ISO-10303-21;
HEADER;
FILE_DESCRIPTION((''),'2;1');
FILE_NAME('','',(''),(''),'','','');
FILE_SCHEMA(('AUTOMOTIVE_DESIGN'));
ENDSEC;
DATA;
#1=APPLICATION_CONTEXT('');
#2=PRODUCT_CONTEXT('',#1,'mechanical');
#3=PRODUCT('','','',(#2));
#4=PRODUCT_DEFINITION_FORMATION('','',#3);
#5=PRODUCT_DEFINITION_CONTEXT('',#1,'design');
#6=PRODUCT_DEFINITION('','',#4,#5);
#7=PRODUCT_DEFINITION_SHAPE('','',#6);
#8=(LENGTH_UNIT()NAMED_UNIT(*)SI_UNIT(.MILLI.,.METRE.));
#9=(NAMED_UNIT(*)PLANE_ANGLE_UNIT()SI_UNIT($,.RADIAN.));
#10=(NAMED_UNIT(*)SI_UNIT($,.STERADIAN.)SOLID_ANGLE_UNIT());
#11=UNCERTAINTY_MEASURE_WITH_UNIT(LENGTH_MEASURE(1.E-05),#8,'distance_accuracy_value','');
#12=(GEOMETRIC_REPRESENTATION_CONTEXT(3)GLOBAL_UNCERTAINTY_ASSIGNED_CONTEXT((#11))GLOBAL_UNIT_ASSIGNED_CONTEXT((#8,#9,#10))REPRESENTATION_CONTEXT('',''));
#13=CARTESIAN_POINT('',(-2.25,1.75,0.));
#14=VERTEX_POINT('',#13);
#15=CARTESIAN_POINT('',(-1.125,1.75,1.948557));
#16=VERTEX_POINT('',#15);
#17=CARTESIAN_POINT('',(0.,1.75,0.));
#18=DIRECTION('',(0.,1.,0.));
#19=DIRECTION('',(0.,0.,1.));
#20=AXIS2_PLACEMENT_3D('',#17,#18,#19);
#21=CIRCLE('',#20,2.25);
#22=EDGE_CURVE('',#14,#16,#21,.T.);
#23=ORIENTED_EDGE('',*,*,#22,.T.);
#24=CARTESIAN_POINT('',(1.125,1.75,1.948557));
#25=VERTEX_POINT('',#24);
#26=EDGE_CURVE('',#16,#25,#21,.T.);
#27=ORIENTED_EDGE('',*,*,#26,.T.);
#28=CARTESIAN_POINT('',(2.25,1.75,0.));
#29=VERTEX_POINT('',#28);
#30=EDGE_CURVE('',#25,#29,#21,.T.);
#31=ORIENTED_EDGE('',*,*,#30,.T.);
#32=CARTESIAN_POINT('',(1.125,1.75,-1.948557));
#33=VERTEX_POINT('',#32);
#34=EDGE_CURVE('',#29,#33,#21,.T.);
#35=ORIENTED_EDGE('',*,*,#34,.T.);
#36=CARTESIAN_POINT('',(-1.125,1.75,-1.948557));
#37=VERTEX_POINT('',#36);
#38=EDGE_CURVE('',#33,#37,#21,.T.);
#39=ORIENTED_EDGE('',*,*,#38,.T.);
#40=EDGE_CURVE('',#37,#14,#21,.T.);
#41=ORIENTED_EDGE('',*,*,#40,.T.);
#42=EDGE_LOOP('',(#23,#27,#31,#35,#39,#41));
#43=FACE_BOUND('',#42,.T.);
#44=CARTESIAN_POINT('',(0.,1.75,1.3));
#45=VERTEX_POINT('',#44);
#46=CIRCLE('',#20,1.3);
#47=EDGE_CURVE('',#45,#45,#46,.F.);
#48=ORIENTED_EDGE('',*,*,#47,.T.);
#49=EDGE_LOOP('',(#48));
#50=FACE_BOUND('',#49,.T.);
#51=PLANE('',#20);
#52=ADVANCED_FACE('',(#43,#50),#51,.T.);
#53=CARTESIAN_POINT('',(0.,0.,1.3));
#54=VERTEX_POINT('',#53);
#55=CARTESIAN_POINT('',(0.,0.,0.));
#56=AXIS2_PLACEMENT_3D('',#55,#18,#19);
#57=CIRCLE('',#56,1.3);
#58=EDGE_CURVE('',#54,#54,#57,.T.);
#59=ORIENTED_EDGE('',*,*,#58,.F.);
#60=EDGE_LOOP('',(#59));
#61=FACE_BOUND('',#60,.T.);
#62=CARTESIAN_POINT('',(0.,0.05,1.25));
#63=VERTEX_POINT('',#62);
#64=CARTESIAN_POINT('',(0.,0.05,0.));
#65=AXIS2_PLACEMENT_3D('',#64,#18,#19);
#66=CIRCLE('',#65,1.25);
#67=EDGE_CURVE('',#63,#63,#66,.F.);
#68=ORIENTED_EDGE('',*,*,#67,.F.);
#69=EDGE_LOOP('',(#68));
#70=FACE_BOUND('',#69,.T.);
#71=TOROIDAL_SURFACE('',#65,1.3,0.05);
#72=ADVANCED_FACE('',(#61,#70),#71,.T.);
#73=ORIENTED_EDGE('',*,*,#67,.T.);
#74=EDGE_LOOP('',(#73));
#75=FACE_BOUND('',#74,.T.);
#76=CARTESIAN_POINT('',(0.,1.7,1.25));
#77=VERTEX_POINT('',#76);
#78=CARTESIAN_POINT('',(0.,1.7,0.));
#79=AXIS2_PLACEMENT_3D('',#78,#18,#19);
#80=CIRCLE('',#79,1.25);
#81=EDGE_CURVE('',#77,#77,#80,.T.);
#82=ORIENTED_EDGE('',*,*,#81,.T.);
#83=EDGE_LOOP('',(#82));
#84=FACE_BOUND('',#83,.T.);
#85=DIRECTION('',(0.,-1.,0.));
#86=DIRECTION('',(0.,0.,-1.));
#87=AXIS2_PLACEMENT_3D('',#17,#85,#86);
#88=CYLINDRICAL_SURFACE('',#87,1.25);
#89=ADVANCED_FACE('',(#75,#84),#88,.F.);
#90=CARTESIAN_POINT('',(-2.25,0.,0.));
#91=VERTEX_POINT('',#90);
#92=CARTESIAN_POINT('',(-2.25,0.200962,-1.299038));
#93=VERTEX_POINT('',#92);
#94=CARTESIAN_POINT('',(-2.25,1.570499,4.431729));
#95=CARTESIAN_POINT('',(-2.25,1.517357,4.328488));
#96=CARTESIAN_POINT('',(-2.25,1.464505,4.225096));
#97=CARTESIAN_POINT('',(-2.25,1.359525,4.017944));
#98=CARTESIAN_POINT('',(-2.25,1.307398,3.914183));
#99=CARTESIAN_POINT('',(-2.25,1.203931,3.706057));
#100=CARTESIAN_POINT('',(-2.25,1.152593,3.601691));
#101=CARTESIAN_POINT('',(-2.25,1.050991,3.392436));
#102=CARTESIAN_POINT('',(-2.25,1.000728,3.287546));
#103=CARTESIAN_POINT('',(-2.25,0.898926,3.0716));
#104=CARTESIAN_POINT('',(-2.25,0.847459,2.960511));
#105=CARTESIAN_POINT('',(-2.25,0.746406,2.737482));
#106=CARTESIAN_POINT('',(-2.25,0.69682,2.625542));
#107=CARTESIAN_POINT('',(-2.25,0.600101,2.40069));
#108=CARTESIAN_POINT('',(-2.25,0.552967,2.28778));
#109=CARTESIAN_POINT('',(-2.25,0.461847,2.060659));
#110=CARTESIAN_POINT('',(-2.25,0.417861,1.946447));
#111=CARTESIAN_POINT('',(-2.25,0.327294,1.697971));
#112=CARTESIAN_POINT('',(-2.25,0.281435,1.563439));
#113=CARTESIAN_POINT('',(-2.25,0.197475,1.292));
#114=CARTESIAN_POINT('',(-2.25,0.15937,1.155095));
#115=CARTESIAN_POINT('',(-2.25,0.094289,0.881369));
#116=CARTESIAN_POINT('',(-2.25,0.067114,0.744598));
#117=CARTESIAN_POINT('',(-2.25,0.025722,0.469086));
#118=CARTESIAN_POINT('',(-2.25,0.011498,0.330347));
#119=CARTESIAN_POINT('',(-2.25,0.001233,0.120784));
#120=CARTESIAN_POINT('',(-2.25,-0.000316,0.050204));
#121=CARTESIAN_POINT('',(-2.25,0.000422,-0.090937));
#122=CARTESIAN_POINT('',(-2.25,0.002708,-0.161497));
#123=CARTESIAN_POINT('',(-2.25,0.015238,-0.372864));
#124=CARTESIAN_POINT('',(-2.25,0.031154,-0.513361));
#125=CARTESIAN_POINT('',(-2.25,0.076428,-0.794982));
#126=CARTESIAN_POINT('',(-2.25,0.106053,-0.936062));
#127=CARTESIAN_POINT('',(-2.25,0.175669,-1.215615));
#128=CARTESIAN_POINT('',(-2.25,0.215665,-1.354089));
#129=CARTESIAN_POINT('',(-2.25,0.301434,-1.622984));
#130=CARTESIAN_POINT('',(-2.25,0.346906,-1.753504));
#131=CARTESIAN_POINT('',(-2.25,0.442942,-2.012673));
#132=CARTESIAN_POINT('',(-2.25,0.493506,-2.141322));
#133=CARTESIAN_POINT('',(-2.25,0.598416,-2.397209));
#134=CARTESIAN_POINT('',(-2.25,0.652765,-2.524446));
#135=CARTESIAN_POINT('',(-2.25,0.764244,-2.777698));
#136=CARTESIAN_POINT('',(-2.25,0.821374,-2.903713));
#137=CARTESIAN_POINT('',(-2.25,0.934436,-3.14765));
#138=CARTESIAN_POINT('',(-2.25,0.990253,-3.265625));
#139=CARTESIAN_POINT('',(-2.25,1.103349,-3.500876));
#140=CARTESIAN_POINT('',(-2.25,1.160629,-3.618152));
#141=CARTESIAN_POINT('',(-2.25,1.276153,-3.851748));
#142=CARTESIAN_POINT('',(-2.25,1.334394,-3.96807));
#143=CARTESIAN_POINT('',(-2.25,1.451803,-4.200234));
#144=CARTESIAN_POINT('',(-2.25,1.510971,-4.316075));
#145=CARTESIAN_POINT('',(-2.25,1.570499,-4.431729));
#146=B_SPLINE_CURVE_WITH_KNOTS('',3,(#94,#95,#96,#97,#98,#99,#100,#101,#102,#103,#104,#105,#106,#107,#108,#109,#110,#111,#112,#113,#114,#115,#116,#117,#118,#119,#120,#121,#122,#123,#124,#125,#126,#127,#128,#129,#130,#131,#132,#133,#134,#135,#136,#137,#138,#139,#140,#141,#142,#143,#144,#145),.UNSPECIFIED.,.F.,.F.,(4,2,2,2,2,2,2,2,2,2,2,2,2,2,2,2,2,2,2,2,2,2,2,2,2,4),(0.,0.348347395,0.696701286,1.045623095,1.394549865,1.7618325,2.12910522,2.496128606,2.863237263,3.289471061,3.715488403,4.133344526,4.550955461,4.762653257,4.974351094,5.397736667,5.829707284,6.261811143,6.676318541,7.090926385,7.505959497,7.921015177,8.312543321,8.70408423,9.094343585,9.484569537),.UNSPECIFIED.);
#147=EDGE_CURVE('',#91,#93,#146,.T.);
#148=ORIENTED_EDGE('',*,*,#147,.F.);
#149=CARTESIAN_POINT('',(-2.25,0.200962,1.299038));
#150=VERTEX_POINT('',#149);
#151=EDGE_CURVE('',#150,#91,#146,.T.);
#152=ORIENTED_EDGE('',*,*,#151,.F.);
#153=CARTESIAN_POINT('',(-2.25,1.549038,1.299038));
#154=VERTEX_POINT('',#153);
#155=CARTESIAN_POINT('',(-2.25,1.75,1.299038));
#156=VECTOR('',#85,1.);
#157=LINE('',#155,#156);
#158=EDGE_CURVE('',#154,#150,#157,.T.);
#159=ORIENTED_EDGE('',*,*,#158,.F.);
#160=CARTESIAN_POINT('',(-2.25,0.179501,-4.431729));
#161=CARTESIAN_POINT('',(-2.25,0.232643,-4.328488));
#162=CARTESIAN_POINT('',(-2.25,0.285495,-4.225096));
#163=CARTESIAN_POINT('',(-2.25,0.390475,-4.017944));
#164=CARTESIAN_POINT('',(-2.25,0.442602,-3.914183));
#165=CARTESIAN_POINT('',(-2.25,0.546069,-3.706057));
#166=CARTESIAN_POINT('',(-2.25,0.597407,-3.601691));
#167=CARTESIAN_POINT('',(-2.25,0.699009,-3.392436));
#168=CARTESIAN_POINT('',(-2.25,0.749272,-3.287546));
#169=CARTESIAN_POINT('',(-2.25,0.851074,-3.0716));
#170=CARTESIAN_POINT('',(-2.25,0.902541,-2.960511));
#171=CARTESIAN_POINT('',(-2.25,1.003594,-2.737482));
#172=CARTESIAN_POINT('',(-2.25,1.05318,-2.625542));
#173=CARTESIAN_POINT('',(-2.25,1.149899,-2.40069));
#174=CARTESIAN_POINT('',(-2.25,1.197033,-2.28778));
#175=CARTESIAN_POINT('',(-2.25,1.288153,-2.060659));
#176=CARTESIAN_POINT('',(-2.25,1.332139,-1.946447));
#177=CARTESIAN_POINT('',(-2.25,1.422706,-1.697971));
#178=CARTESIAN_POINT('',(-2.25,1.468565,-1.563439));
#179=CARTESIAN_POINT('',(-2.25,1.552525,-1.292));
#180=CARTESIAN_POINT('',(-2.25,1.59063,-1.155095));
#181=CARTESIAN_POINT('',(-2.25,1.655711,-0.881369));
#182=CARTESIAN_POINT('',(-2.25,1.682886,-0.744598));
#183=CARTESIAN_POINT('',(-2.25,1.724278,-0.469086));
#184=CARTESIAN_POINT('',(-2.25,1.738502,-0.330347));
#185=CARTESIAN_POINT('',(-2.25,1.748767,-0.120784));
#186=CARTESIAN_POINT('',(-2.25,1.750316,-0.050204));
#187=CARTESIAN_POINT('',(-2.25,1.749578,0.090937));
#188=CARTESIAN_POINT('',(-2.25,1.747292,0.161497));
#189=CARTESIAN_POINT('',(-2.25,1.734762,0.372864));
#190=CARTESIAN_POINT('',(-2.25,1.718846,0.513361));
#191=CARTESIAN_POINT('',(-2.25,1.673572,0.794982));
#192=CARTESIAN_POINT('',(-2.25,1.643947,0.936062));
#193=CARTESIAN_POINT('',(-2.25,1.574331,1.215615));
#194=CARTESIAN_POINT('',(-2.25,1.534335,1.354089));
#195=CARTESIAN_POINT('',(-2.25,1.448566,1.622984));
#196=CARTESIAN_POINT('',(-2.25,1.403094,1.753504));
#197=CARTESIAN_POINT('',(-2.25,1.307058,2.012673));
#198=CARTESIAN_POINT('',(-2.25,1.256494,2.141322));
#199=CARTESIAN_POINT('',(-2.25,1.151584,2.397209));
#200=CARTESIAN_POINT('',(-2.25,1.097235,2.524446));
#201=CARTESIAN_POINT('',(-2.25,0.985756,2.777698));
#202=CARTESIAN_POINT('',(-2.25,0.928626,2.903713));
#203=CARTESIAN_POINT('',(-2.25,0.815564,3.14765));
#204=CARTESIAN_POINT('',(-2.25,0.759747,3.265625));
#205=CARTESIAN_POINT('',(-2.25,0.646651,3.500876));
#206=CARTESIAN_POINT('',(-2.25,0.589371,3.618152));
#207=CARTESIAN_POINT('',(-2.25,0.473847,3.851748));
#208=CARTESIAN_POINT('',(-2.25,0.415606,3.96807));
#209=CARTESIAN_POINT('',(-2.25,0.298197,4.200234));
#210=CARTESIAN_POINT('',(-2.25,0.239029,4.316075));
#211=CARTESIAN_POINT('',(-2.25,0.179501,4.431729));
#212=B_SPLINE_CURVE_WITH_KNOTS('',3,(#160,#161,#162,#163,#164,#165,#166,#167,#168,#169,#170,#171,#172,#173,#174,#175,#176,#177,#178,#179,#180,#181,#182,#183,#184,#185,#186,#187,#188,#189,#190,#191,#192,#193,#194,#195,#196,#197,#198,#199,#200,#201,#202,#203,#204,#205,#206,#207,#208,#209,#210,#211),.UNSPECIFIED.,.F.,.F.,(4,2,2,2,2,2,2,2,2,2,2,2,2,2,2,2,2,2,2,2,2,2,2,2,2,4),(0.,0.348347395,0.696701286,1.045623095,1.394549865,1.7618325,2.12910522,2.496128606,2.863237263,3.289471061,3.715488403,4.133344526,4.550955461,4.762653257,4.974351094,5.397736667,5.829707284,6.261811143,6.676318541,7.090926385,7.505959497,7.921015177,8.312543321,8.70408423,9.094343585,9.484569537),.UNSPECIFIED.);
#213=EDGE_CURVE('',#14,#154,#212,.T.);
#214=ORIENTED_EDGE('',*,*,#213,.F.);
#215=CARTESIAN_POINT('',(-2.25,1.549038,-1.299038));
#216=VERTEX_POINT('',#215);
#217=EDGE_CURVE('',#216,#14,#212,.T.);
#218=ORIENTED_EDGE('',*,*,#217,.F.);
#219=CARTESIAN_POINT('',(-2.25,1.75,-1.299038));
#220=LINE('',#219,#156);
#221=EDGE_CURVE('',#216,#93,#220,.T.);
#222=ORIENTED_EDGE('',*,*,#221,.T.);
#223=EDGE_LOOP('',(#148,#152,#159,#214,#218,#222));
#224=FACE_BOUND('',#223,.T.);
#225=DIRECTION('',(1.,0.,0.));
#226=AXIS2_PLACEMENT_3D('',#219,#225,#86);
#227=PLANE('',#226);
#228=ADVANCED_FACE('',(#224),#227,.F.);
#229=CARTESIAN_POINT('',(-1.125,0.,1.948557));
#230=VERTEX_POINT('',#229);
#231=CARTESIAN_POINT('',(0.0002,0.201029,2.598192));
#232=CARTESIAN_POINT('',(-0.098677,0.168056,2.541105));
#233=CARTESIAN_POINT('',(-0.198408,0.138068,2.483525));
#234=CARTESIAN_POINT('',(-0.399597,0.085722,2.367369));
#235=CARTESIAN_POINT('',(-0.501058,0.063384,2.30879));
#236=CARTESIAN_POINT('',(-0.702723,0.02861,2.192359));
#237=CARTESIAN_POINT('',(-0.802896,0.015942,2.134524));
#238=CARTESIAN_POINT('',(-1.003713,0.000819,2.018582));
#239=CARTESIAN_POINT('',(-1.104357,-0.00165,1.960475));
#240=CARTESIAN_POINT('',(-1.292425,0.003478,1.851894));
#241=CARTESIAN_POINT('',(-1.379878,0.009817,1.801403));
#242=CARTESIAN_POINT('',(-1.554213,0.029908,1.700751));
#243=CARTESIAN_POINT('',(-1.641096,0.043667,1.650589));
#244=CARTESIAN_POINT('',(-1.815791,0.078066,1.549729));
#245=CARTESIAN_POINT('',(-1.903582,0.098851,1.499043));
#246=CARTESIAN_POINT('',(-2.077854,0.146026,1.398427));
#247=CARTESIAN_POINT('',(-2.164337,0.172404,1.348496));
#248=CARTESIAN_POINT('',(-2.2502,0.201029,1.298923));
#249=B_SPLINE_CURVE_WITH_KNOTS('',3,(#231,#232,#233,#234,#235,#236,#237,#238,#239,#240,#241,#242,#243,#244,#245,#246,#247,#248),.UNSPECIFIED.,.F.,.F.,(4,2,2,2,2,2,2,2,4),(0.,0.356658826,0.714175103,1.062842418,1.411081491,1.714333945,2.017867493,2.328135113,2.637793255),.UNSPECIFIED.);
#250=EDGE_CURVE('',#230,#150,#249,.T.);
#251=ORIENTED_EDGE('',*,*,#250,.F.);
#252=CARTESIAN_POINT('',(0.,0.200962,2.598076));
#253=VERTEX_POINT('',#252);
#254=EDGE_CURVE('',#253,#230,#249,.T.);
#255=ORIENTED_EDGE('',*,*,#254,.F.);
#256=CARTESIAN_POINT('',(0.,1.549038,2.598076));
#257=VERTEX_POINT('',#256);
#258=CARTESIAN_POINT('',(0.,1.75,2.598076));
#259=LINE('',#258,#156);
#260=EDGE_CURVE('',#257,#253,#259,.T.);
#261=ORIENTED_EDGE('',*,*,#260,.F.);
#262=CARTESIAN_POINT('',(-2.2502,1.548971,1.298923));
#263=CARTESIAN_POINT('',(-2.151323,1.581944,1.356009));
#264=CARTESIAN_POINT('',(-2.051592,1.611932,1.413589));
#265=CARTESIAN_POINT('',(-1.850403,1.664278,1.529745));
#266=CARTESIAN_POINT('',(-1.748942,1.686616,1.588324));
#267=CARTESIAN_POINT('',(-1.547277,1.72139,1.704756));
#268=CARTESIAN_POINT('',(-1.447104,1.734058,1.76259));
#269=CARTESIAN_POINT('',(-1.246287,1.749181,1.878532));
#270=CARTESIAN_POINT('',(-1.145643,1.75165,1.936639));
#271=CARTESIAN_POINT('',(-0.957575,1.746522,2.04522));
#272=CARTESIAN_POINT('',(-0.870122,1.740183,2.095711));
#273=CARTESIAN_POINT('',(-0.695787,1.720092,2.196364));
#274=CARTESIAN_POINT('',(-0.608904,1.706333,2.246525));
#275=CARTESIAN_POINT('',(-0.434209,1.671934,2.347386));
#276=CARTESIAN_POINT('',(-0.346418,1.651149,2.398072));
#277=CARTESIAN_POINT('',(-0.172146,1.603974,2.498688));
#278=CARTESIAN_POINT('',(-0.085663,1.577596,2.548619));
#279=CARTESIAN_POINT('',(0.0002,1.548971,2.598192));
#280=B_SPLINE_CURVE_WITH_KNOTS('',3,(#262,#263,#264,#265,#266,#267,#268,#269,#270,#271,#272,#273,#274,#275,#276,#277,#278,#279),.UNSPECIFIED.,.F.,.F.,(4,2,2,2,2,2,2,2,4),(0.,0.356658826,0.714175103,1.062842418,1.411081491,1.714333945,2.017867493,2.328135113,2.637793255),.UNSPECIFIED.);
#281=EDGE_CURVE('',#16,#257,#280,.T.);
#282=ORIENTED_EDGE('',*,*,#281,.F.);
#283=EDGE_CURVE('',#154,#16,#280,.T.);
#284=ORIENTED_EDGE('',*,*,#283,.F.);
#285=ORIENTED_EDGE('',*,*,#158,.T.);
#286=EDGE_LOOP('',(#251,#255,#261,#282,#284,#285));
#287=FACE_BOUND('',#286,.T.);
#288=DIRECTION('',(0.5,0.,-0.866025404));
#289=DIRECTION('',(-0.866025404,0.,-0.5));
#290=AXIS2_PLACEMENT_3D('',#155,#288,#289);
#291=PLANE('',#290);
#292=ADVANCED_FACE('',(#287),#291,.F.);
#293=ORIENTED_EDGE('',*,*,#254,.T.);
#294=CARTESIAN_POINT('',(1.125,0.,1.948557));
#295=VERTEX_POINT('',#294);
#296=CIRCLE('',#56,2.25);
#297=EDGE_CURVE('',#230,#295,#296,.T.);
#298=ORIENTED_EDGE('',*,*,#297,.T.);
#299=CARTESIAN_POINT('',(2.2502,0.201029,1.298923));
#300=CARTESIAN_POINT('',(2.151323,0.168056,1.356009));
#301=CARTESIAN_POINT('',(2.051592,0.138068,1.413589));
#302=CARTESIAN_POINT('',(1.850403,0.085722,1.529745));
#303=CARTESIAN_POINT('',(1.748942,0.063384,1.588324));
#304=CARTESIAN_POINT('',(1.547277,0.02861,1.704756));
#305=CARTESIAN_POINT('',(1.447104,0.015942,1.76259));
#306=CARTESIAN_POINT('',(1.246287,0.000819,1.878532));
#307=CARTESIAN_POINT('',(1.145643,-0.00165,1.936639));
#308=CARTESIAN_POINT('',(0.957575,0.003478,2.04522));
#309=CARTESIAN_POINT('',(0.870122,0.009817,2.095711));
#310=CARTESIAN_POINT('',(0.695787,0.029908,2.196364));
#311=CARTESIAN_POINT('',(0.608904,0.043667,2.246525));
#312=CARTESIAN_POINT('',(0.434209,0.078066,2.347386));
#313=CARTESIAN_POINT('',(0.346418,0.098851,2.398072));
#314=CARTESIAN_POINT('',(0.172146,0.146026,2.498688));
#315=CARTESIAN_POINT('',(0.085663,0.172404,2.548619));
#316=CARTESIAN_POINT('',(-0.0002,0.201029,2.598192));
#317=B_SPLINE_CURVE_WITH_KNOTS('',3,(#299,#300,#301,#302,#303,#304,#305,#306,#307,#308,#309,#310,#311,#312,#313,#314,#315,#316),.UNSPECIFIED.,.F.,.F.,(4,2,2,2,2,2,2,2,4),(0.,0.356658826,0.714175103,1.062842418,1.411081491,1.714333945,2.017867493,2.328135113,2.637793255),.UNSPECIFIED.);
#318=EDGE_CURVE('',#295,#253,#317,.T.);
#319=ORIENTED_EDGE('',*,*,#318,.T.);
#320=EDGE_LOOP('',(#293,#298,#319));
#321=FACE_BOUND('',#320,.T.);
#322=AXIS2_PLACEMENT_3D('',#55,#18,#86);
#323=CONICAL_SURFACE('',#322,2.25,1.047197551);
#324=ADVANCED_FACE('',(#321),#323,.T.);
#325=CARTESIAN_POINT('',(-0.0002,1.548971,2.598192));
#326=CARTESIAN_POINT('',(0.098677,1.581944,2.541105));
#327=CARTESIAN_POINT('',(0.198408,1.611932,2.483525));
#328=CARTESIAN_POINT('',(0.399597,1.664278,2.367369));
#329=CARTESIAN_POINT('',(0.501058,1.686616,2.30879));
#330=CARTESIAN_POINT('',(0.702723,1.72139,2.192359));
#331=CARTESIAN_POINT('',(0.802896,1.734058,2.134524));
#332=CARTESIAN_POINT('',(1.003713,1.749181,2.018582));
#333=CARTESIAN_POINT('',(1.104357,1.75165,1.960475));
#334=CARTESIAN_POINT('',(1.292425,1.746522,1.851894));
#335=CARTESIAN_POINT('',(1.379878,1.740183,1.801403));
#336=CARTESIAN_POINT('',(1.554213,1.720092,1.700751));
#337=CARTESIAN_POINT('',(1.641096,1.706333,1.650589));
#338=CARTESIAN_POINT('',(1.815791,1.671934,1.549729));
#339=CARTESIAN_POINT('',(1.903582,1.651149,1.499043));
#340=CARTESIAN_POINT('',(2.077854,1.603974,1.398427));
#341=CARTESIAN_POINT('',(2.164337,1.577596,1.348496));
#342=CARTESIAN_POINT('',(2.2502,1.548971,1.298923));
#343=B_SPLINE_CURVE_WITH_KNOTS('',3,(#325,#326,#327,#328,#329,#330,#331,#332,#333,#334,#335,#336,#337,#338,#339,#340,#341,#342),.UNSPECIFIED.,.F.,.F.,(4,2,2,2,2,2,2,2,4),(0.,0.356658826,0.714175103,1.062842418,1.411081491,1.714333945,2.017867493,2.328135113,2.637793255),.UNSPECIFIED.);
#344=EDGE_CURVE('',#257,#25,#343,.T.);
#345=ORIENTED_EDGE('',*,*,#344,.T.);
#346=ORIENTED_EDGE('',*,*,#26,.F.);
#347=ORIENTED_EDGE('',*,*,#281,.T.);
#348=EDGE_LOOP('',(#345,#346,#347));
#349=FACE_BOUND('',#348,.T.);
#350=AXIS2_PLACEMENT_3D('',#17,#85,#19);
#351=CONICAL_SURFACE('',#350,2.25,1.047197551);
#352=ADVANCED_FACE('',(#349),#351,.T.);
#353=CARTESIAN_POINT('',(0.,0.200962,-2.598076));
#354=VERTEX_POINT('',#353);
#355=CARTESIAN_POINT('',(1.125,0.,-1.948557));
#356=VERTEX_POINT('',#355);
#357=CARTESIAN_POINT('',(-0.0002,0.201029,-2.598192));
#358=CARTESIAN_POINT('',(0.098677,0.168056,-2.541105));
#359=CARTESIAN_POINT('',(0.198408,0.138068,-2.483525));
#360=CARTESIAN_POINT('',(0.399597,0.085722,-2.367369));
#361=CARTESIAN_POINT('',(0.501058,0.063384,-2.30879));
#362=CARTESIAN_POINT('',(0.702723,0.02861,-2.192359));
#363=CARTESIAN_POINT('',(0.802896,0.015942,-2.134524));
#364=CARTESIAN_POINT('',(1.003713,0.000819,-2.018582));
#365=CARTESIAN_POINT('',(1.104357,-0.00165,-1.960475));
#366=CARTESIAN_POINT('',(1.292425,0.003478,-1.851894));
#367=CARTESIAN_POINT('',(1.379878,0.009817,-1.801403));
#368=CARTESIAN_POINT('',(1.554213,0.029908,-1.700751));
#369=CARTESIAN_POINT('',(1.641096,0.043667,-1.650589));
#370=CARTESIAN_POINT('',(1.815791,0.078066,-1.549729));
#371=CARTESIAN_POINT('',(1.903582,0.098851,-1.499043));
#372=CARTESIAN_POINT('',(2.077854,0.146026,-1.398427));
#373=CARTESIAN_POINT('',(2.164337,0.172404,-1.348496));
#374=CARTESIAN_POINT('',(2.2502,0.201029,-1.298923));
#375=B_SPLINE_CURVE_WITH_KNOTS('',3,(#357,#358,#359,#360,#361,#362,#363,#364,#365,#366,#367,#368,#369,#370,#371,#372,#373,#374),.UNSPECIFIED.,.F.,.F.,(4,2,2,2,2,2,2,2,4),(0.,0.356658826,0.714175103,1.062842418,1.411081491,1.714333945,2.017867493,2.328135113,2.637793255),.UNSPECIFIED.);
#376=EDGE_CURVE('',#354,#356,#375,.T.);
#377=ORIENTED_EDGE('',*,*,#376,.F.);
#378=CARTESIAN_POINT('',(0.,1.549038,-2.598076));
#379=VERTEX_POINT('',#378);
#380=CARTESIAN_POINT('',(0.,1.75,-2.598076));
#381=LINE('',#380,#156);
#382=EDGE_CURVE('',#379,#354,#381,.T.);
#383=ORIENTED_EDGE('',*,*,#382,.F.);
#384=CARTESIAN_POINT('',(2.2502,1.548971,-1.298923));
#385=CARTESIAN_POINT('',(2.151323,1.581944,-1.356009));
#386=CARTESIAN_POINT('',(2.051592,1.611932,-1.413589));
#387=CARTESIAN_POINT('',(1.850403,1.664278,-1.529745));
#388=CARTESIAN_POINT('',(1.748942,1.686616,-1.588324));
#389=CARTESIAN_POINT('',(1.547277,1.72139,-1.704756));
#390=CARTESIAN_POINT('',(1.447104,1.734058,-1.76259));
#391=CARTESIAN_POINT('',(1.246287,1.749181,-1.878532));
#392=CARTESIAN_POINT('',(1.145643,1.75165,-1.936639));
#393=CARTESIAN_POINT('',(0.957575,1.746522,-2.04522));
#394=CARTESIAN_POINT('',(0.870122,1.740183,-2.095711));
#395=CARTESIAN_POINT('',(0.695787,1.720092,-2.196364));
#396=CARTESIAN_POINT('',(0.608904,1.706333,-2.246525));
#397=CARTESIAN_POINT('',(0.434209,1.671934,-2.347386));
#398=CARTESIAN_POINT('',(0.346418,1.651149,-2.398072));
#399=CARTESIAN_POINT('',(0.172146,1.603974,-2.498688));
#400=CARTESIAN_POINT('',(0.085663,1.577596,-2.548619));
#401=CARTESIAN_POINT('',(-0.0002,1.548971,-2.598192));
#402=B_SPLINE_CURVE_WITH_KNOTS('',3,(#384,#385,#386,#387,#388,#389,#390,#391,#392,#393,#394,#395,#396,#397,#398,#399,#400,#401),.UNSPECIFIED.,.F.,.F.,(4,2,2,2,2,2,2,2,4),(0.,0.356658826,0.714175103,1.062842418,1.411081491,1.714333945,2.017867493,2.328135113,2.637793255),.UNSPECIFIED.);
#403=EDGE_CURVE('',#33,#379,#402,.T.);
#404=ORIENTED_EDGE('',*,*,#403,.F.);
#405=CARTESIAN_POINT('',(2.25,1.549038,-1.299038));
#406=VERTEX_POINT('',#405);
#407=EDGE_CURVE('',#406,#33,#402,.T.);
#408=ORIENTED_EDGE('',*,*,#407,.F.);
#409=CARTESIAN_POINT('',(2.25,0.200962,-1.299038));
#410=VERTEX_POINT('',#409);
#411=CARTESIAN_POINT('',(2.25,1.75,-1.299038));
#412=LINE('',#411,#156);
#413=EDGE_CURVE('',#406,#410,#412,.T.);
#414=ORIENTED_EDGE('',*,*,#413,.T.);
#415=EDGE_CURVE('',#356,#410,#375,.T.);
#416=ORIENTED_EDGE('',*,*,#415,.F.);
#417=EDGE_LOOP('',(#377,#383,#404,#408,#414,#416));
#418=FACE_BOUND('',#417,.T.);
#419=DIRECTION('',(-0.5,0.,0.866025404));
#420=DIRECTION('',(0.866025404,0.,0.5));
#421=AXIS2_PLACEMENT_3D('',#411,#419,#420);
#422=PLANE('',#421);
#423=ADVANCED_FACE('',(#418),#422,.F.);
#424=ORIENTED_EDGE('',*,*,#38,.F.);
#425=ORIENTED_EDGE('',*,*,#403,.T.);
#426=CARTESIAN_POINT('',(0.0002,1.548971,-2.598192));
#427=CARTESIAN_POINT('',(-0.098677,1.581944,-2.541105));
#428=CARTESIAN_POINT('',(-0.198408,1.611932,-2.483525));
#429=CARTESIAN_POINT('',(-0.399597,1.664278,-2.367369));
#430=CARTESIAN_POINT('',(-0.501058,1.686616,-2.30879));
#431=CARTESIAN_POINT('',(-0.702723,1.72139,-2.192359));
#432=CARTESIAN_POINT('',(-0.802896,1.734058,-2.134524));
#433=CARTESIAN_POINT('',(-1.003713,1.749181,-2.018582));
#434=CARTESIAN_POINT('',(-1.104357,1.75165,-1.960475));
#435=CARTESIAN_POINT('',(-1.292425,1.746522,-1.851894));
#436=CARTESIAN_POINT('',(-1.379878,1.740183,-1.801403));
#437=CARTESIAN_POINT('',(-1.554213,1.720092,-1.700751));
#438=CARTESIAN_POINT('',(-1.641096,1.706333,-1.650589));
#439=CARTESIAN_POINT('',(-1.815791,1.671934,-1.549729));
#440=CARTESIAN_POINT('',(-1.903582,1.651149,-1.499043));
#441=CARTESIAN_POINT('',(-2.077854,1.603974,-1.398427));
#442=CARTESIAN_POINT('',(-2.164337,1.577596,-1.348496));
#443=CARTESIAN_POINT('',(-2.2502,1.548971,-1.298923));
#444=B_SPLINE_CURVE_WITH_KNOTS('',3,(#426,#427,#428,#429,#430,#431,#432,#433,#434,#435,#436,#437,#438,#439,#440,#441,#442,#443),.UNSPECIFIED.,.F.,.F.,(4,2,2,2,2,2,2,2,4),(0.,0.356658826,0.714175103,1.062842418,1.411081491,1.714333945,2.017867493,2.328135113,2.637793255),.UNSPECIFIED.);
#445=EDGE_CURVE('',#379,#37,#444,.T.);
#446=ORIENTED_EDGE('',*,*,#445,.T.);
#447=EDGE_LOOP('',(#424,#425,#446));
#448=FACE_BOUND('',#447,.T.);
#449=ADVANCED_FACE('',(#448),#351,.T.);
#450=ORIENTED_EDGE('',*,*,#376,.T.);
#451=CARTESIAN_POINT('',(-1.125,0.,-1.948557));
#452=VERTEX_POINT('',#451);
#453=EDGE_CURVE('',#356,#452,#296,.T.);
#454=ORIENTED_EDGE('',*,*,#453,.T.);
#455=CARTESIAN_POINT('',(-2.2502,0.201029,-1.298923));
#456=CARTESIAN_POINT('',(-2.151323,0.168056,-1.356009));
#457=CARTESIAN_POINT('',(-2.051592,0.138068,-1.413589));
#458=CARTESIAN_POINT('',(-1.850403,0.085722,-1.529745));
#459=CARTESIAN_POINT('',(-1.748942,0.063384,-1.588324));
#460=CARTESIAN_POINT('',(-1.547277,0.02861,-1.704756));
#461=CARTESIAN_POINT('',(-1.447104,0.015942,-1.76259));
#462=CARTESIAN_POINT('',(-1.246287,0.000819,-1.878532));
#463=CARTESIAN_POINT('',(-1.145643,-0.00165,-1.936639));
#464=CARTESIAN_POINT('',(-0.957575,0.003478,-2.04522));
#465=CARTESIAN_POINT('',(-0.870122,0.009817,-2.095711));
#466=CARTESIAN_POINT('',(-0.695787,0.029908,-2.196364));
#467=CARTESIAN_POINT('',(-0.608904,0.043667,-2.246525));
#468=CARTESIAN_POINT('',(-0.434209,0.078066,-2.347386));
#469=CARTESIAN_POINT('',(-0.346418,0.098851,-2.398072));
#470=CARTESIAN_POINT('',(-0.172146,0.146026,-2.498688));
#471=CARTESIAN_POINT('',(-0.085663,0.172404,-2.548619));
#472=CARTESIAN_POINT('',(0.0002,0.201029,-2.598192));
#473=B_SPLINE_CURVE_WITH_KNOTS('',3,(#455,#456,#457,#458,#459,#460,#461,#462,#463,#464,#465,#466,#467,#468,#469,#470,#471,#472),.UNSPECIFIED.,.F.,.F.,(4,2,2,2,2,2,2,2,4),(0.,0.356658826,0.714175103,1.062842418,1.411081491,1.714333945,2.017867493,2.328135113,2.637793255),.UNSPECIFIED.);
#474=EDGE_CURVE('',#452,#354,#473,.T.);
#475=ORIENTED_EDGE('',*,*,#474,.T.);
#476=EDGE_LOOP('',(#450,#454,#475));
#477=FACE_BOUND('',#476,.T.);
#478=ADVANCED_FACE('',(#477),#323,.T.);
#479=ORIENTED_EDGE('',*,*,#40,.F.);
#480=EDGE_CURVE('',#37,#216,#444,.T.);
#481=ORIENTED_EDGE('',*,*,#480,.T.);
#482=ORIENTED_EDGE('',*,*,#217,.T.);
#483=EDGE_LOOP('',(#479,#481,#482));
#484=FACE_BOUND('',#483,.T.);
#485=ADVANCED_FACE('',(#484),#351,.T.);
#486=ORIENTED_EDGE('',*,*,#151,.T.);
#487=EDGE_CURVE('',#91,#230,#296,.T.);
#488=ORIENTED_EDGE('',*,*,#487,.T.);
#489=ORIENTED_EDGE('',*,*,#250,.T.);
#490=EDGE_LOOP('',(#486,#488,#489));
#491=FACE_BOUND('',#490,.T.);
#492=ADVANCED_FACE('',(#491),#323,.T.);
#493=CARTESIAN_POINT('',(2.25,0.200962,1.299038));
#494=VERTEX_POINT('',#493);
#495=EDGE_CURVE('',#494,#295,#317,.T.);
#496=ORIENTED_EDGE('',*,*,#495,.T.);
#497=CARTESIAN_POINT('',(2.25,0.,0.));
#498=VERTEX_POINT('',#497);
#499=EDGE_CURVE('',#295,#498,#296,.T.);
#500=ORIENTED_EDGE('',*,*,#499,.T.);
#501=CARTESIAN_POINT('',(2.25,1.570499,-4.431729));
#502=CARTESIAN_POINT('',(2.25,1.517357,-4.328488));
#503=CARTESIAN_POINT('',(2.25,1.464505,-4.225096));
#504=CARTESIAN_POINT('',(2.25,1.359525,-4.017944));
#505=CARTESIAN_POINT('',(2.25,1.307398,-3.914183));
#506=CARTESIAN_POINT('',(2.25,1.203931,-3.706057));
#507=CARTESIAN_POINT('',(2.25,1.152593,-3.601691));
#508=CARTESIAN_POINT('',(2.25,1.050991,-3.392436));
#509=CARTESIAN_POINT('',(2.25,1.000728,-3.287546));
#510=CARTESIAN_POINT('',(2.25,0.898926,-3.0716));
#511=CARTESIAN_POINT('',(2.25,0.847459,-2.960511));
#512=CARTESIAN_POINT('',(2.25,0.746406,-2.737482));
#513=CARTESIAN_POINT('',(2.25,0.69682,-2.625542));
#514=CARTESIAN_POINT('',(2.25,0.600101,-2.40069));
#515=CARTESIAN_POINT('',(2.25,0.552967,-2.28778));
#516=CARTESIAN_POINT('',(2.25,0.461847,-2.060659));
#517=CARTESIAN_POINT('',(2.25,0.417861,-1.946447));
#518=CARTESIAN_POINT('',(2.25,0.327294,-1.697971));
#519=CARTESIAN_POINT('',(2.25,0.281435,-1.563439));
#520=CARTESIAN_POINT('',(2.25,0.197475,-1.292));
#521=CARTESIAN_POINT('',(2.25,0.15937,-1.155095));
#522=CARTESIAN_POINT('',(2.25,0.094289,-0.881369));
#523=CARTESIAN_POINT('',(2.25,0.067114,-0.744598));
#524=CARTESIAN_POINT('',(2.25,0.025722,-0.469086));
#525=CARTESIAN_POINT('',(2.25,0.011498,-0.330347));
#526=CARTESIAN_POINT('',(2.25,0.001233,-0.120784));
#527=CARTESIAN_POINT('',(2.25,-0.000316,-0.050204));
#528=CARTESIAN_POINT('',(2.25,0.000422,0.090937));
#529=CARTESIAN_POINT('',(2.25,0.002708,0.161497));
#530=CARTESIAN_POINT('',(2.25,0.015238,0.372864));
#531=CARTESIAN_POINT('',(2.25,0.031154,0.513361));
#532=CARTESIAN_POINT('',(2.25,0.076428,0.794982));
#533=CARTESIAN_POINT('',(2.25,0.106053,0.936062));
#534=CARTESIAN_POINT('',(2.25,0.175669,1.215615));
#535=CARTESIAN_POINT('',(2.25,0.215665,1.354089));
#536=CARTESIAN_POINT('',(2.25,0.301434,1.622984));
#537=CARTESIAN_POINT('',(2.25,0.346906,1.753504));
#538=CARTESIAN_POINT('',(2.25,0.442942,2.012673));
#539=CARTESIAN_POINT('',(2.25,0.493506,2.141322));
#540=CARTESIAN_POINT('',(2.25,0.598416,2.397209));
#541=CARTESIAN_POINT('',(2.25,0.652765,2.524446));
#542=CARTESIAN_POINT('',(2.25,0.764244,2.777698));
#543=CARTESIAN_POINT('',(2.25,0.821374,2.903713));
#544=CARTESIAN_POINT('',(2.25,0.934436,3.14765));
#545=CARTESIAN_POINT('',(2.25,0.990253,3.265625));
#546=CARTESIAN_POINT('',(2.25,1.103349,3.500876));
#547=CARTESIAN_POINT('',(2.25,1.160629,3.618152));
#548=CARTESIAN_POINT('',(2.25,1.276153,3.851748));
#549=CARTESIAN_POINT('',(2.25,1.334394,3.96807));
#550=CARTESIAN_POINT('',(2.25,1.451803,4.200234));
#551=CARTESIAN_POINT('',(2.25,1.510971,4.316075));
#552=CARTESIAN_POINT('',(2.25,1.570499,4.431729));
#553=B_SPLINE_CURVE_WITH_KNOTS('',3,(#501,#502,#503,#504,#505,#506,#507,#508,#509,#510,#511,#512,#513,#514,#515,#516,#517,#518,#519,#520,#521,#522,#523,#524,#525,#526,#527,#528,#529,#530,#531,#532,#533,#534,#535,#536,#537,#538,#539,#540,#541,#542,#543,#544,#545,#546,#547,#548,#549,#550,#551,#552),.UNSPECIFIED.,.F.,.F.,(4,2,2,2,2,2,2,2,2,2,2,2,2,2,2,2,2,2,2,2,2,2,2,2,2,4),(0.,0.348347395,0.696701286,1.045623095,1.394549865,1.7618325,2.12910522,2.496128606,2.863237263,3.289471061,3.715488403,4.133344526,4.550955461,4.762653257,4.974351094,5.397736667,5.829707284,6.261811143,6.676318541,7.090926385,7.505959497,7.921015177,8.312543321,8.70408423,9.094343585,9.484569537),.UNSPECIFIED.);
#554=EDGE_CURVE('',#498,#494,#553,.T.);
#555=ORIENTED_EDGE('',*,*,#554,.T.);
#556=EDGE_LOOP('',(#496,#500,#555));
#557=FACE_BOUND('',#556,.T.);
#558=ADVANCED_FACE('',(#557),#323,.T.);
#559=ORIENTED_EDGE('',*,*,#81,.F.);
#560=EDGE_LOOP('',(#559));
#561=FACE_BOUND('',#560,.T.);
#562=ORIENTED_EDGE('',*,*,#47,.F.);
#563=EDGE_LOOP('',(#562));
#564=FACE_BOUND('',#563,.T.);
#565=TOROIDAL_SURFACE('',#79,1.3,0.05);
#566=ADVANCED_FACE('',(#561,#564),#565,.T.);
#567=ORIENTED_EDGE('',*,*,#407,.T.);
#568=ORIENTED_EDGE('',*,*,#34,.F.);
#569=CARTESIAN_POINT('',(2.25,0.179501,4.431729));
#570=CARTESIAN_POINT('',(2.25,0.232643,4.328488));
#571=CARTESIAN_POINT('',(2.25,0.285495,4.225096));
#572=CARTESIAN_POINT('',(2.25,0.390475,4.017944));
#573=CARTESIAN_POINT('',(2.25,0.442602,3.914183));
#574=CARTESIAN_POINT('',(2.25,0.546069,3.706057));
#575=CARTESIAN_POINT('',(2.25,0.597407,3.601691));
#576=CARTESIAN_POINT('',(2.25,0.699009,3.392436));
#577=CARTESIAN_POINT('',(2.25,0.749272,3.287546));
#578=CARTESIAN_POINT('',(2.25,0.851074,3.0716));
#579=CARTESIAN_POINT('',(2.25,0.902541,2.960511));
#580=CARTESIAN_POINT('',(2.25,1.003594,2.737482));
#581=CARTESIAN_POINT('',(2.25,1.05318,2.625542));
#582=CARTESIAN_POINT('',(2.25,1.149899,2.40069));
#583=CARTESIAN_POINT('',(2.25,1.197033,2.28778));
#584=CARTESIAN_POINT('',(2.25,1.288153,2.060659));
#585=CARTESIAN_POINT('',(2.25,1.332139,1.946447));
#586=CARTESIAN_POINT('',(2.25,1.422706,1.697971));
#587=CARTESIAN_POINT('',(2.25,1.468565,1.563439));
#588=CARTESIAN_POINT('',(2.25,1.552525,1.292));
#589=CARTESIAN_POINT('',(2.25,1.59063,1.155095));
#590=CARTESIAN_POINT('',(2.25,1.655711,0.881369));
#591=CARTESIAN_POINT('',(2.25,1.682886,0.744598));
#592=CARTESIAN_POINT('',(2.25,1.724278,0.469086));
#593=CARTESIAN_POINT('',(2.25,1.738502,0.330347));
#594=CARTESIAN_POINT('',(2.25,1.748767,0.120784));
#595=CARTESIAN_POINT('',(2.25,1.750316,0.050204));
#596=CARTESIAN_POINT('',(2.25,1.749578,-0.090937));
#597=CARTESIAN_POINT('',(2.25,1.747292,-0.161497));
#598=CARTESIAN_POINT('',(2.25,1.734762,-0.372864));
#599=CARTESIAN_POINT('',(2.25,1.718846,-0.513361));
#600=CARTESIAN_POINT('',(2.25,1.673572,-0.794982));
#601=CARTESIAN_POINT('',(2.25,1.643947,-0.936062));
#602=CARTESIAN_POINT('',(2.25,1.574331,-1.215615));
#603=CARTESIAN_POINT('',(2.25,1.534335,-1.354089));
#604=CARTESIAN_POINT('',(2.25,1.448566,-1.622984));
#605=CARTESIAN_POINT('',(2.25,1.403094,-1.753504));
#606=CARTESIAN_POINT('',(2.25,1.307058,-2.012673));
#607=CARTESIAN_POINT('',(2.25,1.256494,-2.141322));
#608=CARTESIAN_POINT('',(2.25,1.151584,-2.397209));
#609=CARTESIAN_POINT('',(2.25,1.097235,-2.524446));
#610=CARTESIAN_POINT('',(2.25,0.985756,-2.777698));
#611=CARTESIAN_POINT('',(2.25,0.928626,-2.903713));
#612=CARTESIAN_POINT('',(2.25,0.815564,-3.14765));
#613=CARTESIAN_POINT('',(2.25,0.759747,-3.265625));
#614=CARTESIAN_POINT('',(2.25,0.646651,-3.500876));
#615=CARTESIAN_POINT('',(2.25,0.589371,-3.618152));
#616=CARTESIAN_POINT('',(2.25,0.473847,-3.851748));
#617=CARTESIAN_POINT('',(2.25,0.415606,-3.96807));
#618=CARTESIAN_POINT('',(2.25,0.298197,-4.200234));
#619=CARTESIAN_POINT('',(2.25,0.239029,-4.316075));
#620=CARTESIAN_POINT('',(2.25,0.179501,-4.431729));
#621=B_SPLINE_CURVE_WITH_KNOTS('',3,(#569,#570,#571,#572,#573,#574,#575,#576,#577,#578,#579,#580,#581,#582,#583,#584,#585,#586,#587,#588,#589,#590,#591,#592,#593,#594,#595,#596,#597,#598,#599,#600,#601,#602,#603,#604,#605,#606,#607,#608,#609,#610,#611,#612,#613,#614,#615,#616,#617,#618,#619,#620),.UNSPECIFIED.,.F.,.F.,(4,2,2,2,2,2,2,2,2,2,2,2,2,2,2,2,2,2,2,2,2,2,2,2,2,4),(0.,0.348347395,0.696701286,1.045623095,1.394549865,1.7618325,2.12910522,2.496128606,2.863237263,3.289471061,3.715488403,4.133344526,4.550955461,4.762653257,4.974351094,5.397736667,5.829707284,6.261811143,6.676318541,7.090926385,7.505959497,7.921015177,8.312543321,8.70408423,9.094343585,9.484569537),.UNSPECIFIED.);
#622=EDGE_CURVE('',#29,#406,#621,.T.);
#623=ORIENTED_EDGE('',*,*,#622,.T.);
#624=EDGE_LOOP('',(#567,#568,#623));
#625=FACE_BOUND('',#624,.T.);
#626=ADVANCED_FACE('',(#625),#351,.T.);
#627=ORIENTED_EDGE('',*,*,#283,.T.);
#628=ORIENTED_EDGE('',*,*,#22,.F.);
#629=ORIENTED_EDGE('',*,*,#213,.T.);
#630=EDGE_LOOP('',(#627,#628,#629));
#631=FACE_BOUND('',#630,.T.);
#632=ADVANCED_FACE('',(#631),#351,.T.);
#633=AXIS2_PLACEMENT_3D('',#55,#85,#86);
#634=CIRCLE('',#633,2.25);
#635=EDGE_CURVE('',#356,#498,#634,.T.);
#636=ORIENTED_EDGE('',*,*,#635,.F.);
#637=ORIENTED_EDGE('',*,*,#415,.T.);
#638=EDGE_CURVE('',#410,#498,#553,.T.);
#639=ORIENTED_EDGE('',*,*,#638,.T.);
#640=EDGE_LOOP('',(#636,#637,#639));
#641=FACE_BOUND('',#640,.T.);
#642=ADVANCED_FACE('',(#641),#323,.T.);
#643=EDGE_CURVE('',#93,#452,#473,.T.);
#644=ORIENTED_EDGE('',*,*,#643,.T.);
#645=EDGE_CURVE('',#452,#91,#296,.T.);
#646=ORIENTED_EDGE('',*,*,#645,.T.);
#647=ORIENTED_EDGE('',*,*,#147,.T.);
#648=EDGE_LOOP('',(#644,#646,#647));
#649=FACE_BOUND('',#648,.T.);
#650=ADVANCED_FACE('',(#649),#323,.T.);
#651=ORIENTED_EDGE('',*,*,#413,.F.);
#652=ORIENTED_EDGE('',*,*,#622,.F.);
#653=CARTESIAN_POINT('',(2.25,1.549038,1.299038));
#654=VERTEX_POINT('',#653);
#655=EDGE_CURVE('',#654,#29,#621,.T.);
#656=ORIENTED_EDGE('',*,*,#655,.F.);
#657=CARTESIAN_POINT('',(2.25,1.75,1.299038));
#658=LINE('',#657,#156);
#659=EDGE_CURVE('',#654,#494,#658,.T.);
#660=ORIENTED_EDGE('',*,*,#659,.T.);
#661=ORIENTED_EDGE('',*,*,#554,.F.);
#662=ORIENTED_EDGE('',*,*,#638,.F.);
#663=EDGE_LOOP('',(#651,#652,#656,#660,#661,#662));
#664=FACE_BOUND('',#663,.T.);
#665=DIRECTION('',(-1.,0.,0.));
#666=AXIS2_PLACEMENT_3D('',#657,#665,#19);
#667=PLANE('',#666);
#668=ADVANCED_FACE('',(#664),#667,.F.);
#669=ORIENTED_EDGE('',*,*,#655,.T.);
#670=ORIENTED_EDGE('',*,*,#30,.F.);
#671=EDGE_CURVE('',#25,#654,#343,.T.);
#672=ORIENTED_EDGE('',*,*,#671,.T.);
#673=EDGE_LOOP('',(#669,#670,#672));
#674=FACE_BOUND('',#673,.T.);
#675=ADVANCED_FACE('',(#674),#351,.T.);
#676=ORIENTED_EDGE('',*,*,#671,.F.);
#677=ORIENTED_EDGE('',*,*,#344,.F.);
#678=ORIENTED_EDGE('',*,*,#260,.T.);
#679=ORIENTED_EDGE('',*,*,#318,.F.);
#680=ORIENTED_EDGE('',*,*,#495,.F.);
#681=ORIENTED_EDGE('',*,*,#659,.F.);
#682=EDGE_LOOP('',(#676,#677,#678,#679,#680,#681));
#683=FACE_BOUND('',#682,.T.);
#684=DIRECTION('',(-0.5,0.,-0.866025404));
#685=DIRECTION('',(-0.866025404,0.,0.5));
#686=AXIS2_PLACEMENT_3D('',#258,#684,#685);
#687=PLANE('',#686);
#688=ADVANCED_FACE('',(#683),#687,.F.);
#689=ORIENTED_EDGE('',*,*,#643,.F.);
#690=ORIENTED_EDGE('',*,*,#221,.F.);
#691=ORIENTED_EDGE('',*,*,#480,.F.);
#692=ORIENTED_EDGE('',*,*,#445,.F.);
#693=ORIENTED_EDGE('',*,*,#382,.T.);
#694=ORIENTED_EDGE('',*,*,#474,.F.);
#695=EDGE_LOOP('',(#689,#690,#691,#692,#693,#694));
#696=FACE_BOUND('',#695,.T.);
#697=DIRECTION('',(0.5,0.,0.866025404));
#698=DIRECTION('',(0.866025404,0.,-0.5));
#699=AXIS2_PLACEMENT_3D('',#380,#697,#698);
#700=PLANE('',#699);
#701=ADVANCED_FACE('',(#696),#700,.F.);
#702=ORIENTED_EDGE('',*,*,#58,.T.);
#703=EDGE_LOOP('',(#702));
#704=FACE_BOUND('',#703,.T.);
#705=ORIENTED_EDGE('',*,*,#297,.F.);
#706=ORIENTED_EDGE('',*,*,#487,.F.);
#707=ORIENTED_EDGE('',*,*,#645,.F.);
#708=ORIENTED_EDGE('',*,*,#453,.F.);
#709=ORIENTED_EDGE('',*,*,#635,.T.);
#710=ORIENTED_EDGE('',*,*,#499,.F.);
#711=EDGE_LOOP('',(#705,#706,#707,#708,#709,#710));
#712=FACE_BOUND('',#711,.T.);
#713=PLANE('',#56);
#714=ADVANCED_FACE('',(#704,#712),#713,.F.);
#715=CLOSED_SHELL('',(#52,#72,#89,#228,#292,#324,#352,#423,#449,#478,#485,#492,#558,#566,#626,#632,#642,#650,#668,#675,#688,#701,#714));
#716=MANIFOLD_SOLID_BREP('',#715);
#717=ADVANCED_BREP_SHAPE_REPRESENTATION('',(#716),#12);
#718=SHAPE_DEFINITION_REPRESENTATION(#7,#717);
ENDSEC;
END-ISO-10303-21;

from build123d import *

# Parameters (mm, degrees)
SKETCH2_R           = 1.25
BOSS_EXTRUDE1_DEPTH = 1.75
SKETCH3_OUTSIDE_W   = 14.846
SKETCH3_OUTSIDE_H   = 15.542
SKETCH3_OUTSIDE_R   = 2.25
CUT_EXTRUDE1_DEPTH  = 2
CUT_EXTRUDE1_TAPER  = 60
SKETCH4_OUTSIDE_W   = 14.846
SKETCH4_OUTSIDE_H   = 15.542
SKETCH4_OUTSIDE_R   = 2.25
CUT_EXTRUDE2_DEPTH  = 2
CUT_EXTRUDE2_TAPER  = 60
FILLET1_R           = 0.05


with BuildPart() as part:
    # Sketch2 → Boss-Extrude1 (new body)
    with BuildSketch(Plane(origin=(0, 0, 0), x_dir=(1, 0, 0), z_dir=(0, 1, 0))):
        Polygon((2.25, -1.299038106), (2.25, 1.299038106), (0, 2.598076211), (-2.25, 1.299038106), (-2.25, -1.299038106), (0, -2.598076211), align=None)
        Circle(SKETCH2_R, mode=Mode.SUBTRACT)
    extrude(amount=BOSS_EXTRUDE1_DEPTH)

    # Sketch3 outside → Cut-Extrude1 (cut)
    with BuildSketch(Plane(origin=(0, 1.75, 0), x_dir=(1, 0, 0), z_dir=(0, 1, 0))):
        Rectangle(SKETCH3_OUTSIDE_W, SKETCH3_OUTSIDE_H)
        Circle(SKETCH3_OUTSIDE_R, mode=Mode.SUBTRACT)
    extrude(amount=-CUT_EXTRUDE1_DEPTH, taper=CUT_EXTRUDE1_TAPER, mode=Mode.SUBTRACT)

    # Sketch4 outside → Cut-Extrude2 (cut)
    with BuildSketch(Plane.XZ):
        Rectangle(SKETCH4_OUTSIDE_W, SKETCH4_OUTSIDE_H)
        Circle(SKETCH4_OUTSIDE_R, mode=Mode.SUBTRACT)
    extrude(amount=-CUT_EXTRUDE2_DEPTH, taper=CUT_EXTRUDE2_TAPER, mode=Mode.SUBTRACT)

    # Fillet1
    fillet1_edges = [part.edges().sort_by_distance(p)[0] for p in [
        (-1.25, 0, 0),
        (-1.25, 1.75, 0),
    ]]
    fillet(fillet1_edges, radius=FILLET1_R)


solid = part.part
